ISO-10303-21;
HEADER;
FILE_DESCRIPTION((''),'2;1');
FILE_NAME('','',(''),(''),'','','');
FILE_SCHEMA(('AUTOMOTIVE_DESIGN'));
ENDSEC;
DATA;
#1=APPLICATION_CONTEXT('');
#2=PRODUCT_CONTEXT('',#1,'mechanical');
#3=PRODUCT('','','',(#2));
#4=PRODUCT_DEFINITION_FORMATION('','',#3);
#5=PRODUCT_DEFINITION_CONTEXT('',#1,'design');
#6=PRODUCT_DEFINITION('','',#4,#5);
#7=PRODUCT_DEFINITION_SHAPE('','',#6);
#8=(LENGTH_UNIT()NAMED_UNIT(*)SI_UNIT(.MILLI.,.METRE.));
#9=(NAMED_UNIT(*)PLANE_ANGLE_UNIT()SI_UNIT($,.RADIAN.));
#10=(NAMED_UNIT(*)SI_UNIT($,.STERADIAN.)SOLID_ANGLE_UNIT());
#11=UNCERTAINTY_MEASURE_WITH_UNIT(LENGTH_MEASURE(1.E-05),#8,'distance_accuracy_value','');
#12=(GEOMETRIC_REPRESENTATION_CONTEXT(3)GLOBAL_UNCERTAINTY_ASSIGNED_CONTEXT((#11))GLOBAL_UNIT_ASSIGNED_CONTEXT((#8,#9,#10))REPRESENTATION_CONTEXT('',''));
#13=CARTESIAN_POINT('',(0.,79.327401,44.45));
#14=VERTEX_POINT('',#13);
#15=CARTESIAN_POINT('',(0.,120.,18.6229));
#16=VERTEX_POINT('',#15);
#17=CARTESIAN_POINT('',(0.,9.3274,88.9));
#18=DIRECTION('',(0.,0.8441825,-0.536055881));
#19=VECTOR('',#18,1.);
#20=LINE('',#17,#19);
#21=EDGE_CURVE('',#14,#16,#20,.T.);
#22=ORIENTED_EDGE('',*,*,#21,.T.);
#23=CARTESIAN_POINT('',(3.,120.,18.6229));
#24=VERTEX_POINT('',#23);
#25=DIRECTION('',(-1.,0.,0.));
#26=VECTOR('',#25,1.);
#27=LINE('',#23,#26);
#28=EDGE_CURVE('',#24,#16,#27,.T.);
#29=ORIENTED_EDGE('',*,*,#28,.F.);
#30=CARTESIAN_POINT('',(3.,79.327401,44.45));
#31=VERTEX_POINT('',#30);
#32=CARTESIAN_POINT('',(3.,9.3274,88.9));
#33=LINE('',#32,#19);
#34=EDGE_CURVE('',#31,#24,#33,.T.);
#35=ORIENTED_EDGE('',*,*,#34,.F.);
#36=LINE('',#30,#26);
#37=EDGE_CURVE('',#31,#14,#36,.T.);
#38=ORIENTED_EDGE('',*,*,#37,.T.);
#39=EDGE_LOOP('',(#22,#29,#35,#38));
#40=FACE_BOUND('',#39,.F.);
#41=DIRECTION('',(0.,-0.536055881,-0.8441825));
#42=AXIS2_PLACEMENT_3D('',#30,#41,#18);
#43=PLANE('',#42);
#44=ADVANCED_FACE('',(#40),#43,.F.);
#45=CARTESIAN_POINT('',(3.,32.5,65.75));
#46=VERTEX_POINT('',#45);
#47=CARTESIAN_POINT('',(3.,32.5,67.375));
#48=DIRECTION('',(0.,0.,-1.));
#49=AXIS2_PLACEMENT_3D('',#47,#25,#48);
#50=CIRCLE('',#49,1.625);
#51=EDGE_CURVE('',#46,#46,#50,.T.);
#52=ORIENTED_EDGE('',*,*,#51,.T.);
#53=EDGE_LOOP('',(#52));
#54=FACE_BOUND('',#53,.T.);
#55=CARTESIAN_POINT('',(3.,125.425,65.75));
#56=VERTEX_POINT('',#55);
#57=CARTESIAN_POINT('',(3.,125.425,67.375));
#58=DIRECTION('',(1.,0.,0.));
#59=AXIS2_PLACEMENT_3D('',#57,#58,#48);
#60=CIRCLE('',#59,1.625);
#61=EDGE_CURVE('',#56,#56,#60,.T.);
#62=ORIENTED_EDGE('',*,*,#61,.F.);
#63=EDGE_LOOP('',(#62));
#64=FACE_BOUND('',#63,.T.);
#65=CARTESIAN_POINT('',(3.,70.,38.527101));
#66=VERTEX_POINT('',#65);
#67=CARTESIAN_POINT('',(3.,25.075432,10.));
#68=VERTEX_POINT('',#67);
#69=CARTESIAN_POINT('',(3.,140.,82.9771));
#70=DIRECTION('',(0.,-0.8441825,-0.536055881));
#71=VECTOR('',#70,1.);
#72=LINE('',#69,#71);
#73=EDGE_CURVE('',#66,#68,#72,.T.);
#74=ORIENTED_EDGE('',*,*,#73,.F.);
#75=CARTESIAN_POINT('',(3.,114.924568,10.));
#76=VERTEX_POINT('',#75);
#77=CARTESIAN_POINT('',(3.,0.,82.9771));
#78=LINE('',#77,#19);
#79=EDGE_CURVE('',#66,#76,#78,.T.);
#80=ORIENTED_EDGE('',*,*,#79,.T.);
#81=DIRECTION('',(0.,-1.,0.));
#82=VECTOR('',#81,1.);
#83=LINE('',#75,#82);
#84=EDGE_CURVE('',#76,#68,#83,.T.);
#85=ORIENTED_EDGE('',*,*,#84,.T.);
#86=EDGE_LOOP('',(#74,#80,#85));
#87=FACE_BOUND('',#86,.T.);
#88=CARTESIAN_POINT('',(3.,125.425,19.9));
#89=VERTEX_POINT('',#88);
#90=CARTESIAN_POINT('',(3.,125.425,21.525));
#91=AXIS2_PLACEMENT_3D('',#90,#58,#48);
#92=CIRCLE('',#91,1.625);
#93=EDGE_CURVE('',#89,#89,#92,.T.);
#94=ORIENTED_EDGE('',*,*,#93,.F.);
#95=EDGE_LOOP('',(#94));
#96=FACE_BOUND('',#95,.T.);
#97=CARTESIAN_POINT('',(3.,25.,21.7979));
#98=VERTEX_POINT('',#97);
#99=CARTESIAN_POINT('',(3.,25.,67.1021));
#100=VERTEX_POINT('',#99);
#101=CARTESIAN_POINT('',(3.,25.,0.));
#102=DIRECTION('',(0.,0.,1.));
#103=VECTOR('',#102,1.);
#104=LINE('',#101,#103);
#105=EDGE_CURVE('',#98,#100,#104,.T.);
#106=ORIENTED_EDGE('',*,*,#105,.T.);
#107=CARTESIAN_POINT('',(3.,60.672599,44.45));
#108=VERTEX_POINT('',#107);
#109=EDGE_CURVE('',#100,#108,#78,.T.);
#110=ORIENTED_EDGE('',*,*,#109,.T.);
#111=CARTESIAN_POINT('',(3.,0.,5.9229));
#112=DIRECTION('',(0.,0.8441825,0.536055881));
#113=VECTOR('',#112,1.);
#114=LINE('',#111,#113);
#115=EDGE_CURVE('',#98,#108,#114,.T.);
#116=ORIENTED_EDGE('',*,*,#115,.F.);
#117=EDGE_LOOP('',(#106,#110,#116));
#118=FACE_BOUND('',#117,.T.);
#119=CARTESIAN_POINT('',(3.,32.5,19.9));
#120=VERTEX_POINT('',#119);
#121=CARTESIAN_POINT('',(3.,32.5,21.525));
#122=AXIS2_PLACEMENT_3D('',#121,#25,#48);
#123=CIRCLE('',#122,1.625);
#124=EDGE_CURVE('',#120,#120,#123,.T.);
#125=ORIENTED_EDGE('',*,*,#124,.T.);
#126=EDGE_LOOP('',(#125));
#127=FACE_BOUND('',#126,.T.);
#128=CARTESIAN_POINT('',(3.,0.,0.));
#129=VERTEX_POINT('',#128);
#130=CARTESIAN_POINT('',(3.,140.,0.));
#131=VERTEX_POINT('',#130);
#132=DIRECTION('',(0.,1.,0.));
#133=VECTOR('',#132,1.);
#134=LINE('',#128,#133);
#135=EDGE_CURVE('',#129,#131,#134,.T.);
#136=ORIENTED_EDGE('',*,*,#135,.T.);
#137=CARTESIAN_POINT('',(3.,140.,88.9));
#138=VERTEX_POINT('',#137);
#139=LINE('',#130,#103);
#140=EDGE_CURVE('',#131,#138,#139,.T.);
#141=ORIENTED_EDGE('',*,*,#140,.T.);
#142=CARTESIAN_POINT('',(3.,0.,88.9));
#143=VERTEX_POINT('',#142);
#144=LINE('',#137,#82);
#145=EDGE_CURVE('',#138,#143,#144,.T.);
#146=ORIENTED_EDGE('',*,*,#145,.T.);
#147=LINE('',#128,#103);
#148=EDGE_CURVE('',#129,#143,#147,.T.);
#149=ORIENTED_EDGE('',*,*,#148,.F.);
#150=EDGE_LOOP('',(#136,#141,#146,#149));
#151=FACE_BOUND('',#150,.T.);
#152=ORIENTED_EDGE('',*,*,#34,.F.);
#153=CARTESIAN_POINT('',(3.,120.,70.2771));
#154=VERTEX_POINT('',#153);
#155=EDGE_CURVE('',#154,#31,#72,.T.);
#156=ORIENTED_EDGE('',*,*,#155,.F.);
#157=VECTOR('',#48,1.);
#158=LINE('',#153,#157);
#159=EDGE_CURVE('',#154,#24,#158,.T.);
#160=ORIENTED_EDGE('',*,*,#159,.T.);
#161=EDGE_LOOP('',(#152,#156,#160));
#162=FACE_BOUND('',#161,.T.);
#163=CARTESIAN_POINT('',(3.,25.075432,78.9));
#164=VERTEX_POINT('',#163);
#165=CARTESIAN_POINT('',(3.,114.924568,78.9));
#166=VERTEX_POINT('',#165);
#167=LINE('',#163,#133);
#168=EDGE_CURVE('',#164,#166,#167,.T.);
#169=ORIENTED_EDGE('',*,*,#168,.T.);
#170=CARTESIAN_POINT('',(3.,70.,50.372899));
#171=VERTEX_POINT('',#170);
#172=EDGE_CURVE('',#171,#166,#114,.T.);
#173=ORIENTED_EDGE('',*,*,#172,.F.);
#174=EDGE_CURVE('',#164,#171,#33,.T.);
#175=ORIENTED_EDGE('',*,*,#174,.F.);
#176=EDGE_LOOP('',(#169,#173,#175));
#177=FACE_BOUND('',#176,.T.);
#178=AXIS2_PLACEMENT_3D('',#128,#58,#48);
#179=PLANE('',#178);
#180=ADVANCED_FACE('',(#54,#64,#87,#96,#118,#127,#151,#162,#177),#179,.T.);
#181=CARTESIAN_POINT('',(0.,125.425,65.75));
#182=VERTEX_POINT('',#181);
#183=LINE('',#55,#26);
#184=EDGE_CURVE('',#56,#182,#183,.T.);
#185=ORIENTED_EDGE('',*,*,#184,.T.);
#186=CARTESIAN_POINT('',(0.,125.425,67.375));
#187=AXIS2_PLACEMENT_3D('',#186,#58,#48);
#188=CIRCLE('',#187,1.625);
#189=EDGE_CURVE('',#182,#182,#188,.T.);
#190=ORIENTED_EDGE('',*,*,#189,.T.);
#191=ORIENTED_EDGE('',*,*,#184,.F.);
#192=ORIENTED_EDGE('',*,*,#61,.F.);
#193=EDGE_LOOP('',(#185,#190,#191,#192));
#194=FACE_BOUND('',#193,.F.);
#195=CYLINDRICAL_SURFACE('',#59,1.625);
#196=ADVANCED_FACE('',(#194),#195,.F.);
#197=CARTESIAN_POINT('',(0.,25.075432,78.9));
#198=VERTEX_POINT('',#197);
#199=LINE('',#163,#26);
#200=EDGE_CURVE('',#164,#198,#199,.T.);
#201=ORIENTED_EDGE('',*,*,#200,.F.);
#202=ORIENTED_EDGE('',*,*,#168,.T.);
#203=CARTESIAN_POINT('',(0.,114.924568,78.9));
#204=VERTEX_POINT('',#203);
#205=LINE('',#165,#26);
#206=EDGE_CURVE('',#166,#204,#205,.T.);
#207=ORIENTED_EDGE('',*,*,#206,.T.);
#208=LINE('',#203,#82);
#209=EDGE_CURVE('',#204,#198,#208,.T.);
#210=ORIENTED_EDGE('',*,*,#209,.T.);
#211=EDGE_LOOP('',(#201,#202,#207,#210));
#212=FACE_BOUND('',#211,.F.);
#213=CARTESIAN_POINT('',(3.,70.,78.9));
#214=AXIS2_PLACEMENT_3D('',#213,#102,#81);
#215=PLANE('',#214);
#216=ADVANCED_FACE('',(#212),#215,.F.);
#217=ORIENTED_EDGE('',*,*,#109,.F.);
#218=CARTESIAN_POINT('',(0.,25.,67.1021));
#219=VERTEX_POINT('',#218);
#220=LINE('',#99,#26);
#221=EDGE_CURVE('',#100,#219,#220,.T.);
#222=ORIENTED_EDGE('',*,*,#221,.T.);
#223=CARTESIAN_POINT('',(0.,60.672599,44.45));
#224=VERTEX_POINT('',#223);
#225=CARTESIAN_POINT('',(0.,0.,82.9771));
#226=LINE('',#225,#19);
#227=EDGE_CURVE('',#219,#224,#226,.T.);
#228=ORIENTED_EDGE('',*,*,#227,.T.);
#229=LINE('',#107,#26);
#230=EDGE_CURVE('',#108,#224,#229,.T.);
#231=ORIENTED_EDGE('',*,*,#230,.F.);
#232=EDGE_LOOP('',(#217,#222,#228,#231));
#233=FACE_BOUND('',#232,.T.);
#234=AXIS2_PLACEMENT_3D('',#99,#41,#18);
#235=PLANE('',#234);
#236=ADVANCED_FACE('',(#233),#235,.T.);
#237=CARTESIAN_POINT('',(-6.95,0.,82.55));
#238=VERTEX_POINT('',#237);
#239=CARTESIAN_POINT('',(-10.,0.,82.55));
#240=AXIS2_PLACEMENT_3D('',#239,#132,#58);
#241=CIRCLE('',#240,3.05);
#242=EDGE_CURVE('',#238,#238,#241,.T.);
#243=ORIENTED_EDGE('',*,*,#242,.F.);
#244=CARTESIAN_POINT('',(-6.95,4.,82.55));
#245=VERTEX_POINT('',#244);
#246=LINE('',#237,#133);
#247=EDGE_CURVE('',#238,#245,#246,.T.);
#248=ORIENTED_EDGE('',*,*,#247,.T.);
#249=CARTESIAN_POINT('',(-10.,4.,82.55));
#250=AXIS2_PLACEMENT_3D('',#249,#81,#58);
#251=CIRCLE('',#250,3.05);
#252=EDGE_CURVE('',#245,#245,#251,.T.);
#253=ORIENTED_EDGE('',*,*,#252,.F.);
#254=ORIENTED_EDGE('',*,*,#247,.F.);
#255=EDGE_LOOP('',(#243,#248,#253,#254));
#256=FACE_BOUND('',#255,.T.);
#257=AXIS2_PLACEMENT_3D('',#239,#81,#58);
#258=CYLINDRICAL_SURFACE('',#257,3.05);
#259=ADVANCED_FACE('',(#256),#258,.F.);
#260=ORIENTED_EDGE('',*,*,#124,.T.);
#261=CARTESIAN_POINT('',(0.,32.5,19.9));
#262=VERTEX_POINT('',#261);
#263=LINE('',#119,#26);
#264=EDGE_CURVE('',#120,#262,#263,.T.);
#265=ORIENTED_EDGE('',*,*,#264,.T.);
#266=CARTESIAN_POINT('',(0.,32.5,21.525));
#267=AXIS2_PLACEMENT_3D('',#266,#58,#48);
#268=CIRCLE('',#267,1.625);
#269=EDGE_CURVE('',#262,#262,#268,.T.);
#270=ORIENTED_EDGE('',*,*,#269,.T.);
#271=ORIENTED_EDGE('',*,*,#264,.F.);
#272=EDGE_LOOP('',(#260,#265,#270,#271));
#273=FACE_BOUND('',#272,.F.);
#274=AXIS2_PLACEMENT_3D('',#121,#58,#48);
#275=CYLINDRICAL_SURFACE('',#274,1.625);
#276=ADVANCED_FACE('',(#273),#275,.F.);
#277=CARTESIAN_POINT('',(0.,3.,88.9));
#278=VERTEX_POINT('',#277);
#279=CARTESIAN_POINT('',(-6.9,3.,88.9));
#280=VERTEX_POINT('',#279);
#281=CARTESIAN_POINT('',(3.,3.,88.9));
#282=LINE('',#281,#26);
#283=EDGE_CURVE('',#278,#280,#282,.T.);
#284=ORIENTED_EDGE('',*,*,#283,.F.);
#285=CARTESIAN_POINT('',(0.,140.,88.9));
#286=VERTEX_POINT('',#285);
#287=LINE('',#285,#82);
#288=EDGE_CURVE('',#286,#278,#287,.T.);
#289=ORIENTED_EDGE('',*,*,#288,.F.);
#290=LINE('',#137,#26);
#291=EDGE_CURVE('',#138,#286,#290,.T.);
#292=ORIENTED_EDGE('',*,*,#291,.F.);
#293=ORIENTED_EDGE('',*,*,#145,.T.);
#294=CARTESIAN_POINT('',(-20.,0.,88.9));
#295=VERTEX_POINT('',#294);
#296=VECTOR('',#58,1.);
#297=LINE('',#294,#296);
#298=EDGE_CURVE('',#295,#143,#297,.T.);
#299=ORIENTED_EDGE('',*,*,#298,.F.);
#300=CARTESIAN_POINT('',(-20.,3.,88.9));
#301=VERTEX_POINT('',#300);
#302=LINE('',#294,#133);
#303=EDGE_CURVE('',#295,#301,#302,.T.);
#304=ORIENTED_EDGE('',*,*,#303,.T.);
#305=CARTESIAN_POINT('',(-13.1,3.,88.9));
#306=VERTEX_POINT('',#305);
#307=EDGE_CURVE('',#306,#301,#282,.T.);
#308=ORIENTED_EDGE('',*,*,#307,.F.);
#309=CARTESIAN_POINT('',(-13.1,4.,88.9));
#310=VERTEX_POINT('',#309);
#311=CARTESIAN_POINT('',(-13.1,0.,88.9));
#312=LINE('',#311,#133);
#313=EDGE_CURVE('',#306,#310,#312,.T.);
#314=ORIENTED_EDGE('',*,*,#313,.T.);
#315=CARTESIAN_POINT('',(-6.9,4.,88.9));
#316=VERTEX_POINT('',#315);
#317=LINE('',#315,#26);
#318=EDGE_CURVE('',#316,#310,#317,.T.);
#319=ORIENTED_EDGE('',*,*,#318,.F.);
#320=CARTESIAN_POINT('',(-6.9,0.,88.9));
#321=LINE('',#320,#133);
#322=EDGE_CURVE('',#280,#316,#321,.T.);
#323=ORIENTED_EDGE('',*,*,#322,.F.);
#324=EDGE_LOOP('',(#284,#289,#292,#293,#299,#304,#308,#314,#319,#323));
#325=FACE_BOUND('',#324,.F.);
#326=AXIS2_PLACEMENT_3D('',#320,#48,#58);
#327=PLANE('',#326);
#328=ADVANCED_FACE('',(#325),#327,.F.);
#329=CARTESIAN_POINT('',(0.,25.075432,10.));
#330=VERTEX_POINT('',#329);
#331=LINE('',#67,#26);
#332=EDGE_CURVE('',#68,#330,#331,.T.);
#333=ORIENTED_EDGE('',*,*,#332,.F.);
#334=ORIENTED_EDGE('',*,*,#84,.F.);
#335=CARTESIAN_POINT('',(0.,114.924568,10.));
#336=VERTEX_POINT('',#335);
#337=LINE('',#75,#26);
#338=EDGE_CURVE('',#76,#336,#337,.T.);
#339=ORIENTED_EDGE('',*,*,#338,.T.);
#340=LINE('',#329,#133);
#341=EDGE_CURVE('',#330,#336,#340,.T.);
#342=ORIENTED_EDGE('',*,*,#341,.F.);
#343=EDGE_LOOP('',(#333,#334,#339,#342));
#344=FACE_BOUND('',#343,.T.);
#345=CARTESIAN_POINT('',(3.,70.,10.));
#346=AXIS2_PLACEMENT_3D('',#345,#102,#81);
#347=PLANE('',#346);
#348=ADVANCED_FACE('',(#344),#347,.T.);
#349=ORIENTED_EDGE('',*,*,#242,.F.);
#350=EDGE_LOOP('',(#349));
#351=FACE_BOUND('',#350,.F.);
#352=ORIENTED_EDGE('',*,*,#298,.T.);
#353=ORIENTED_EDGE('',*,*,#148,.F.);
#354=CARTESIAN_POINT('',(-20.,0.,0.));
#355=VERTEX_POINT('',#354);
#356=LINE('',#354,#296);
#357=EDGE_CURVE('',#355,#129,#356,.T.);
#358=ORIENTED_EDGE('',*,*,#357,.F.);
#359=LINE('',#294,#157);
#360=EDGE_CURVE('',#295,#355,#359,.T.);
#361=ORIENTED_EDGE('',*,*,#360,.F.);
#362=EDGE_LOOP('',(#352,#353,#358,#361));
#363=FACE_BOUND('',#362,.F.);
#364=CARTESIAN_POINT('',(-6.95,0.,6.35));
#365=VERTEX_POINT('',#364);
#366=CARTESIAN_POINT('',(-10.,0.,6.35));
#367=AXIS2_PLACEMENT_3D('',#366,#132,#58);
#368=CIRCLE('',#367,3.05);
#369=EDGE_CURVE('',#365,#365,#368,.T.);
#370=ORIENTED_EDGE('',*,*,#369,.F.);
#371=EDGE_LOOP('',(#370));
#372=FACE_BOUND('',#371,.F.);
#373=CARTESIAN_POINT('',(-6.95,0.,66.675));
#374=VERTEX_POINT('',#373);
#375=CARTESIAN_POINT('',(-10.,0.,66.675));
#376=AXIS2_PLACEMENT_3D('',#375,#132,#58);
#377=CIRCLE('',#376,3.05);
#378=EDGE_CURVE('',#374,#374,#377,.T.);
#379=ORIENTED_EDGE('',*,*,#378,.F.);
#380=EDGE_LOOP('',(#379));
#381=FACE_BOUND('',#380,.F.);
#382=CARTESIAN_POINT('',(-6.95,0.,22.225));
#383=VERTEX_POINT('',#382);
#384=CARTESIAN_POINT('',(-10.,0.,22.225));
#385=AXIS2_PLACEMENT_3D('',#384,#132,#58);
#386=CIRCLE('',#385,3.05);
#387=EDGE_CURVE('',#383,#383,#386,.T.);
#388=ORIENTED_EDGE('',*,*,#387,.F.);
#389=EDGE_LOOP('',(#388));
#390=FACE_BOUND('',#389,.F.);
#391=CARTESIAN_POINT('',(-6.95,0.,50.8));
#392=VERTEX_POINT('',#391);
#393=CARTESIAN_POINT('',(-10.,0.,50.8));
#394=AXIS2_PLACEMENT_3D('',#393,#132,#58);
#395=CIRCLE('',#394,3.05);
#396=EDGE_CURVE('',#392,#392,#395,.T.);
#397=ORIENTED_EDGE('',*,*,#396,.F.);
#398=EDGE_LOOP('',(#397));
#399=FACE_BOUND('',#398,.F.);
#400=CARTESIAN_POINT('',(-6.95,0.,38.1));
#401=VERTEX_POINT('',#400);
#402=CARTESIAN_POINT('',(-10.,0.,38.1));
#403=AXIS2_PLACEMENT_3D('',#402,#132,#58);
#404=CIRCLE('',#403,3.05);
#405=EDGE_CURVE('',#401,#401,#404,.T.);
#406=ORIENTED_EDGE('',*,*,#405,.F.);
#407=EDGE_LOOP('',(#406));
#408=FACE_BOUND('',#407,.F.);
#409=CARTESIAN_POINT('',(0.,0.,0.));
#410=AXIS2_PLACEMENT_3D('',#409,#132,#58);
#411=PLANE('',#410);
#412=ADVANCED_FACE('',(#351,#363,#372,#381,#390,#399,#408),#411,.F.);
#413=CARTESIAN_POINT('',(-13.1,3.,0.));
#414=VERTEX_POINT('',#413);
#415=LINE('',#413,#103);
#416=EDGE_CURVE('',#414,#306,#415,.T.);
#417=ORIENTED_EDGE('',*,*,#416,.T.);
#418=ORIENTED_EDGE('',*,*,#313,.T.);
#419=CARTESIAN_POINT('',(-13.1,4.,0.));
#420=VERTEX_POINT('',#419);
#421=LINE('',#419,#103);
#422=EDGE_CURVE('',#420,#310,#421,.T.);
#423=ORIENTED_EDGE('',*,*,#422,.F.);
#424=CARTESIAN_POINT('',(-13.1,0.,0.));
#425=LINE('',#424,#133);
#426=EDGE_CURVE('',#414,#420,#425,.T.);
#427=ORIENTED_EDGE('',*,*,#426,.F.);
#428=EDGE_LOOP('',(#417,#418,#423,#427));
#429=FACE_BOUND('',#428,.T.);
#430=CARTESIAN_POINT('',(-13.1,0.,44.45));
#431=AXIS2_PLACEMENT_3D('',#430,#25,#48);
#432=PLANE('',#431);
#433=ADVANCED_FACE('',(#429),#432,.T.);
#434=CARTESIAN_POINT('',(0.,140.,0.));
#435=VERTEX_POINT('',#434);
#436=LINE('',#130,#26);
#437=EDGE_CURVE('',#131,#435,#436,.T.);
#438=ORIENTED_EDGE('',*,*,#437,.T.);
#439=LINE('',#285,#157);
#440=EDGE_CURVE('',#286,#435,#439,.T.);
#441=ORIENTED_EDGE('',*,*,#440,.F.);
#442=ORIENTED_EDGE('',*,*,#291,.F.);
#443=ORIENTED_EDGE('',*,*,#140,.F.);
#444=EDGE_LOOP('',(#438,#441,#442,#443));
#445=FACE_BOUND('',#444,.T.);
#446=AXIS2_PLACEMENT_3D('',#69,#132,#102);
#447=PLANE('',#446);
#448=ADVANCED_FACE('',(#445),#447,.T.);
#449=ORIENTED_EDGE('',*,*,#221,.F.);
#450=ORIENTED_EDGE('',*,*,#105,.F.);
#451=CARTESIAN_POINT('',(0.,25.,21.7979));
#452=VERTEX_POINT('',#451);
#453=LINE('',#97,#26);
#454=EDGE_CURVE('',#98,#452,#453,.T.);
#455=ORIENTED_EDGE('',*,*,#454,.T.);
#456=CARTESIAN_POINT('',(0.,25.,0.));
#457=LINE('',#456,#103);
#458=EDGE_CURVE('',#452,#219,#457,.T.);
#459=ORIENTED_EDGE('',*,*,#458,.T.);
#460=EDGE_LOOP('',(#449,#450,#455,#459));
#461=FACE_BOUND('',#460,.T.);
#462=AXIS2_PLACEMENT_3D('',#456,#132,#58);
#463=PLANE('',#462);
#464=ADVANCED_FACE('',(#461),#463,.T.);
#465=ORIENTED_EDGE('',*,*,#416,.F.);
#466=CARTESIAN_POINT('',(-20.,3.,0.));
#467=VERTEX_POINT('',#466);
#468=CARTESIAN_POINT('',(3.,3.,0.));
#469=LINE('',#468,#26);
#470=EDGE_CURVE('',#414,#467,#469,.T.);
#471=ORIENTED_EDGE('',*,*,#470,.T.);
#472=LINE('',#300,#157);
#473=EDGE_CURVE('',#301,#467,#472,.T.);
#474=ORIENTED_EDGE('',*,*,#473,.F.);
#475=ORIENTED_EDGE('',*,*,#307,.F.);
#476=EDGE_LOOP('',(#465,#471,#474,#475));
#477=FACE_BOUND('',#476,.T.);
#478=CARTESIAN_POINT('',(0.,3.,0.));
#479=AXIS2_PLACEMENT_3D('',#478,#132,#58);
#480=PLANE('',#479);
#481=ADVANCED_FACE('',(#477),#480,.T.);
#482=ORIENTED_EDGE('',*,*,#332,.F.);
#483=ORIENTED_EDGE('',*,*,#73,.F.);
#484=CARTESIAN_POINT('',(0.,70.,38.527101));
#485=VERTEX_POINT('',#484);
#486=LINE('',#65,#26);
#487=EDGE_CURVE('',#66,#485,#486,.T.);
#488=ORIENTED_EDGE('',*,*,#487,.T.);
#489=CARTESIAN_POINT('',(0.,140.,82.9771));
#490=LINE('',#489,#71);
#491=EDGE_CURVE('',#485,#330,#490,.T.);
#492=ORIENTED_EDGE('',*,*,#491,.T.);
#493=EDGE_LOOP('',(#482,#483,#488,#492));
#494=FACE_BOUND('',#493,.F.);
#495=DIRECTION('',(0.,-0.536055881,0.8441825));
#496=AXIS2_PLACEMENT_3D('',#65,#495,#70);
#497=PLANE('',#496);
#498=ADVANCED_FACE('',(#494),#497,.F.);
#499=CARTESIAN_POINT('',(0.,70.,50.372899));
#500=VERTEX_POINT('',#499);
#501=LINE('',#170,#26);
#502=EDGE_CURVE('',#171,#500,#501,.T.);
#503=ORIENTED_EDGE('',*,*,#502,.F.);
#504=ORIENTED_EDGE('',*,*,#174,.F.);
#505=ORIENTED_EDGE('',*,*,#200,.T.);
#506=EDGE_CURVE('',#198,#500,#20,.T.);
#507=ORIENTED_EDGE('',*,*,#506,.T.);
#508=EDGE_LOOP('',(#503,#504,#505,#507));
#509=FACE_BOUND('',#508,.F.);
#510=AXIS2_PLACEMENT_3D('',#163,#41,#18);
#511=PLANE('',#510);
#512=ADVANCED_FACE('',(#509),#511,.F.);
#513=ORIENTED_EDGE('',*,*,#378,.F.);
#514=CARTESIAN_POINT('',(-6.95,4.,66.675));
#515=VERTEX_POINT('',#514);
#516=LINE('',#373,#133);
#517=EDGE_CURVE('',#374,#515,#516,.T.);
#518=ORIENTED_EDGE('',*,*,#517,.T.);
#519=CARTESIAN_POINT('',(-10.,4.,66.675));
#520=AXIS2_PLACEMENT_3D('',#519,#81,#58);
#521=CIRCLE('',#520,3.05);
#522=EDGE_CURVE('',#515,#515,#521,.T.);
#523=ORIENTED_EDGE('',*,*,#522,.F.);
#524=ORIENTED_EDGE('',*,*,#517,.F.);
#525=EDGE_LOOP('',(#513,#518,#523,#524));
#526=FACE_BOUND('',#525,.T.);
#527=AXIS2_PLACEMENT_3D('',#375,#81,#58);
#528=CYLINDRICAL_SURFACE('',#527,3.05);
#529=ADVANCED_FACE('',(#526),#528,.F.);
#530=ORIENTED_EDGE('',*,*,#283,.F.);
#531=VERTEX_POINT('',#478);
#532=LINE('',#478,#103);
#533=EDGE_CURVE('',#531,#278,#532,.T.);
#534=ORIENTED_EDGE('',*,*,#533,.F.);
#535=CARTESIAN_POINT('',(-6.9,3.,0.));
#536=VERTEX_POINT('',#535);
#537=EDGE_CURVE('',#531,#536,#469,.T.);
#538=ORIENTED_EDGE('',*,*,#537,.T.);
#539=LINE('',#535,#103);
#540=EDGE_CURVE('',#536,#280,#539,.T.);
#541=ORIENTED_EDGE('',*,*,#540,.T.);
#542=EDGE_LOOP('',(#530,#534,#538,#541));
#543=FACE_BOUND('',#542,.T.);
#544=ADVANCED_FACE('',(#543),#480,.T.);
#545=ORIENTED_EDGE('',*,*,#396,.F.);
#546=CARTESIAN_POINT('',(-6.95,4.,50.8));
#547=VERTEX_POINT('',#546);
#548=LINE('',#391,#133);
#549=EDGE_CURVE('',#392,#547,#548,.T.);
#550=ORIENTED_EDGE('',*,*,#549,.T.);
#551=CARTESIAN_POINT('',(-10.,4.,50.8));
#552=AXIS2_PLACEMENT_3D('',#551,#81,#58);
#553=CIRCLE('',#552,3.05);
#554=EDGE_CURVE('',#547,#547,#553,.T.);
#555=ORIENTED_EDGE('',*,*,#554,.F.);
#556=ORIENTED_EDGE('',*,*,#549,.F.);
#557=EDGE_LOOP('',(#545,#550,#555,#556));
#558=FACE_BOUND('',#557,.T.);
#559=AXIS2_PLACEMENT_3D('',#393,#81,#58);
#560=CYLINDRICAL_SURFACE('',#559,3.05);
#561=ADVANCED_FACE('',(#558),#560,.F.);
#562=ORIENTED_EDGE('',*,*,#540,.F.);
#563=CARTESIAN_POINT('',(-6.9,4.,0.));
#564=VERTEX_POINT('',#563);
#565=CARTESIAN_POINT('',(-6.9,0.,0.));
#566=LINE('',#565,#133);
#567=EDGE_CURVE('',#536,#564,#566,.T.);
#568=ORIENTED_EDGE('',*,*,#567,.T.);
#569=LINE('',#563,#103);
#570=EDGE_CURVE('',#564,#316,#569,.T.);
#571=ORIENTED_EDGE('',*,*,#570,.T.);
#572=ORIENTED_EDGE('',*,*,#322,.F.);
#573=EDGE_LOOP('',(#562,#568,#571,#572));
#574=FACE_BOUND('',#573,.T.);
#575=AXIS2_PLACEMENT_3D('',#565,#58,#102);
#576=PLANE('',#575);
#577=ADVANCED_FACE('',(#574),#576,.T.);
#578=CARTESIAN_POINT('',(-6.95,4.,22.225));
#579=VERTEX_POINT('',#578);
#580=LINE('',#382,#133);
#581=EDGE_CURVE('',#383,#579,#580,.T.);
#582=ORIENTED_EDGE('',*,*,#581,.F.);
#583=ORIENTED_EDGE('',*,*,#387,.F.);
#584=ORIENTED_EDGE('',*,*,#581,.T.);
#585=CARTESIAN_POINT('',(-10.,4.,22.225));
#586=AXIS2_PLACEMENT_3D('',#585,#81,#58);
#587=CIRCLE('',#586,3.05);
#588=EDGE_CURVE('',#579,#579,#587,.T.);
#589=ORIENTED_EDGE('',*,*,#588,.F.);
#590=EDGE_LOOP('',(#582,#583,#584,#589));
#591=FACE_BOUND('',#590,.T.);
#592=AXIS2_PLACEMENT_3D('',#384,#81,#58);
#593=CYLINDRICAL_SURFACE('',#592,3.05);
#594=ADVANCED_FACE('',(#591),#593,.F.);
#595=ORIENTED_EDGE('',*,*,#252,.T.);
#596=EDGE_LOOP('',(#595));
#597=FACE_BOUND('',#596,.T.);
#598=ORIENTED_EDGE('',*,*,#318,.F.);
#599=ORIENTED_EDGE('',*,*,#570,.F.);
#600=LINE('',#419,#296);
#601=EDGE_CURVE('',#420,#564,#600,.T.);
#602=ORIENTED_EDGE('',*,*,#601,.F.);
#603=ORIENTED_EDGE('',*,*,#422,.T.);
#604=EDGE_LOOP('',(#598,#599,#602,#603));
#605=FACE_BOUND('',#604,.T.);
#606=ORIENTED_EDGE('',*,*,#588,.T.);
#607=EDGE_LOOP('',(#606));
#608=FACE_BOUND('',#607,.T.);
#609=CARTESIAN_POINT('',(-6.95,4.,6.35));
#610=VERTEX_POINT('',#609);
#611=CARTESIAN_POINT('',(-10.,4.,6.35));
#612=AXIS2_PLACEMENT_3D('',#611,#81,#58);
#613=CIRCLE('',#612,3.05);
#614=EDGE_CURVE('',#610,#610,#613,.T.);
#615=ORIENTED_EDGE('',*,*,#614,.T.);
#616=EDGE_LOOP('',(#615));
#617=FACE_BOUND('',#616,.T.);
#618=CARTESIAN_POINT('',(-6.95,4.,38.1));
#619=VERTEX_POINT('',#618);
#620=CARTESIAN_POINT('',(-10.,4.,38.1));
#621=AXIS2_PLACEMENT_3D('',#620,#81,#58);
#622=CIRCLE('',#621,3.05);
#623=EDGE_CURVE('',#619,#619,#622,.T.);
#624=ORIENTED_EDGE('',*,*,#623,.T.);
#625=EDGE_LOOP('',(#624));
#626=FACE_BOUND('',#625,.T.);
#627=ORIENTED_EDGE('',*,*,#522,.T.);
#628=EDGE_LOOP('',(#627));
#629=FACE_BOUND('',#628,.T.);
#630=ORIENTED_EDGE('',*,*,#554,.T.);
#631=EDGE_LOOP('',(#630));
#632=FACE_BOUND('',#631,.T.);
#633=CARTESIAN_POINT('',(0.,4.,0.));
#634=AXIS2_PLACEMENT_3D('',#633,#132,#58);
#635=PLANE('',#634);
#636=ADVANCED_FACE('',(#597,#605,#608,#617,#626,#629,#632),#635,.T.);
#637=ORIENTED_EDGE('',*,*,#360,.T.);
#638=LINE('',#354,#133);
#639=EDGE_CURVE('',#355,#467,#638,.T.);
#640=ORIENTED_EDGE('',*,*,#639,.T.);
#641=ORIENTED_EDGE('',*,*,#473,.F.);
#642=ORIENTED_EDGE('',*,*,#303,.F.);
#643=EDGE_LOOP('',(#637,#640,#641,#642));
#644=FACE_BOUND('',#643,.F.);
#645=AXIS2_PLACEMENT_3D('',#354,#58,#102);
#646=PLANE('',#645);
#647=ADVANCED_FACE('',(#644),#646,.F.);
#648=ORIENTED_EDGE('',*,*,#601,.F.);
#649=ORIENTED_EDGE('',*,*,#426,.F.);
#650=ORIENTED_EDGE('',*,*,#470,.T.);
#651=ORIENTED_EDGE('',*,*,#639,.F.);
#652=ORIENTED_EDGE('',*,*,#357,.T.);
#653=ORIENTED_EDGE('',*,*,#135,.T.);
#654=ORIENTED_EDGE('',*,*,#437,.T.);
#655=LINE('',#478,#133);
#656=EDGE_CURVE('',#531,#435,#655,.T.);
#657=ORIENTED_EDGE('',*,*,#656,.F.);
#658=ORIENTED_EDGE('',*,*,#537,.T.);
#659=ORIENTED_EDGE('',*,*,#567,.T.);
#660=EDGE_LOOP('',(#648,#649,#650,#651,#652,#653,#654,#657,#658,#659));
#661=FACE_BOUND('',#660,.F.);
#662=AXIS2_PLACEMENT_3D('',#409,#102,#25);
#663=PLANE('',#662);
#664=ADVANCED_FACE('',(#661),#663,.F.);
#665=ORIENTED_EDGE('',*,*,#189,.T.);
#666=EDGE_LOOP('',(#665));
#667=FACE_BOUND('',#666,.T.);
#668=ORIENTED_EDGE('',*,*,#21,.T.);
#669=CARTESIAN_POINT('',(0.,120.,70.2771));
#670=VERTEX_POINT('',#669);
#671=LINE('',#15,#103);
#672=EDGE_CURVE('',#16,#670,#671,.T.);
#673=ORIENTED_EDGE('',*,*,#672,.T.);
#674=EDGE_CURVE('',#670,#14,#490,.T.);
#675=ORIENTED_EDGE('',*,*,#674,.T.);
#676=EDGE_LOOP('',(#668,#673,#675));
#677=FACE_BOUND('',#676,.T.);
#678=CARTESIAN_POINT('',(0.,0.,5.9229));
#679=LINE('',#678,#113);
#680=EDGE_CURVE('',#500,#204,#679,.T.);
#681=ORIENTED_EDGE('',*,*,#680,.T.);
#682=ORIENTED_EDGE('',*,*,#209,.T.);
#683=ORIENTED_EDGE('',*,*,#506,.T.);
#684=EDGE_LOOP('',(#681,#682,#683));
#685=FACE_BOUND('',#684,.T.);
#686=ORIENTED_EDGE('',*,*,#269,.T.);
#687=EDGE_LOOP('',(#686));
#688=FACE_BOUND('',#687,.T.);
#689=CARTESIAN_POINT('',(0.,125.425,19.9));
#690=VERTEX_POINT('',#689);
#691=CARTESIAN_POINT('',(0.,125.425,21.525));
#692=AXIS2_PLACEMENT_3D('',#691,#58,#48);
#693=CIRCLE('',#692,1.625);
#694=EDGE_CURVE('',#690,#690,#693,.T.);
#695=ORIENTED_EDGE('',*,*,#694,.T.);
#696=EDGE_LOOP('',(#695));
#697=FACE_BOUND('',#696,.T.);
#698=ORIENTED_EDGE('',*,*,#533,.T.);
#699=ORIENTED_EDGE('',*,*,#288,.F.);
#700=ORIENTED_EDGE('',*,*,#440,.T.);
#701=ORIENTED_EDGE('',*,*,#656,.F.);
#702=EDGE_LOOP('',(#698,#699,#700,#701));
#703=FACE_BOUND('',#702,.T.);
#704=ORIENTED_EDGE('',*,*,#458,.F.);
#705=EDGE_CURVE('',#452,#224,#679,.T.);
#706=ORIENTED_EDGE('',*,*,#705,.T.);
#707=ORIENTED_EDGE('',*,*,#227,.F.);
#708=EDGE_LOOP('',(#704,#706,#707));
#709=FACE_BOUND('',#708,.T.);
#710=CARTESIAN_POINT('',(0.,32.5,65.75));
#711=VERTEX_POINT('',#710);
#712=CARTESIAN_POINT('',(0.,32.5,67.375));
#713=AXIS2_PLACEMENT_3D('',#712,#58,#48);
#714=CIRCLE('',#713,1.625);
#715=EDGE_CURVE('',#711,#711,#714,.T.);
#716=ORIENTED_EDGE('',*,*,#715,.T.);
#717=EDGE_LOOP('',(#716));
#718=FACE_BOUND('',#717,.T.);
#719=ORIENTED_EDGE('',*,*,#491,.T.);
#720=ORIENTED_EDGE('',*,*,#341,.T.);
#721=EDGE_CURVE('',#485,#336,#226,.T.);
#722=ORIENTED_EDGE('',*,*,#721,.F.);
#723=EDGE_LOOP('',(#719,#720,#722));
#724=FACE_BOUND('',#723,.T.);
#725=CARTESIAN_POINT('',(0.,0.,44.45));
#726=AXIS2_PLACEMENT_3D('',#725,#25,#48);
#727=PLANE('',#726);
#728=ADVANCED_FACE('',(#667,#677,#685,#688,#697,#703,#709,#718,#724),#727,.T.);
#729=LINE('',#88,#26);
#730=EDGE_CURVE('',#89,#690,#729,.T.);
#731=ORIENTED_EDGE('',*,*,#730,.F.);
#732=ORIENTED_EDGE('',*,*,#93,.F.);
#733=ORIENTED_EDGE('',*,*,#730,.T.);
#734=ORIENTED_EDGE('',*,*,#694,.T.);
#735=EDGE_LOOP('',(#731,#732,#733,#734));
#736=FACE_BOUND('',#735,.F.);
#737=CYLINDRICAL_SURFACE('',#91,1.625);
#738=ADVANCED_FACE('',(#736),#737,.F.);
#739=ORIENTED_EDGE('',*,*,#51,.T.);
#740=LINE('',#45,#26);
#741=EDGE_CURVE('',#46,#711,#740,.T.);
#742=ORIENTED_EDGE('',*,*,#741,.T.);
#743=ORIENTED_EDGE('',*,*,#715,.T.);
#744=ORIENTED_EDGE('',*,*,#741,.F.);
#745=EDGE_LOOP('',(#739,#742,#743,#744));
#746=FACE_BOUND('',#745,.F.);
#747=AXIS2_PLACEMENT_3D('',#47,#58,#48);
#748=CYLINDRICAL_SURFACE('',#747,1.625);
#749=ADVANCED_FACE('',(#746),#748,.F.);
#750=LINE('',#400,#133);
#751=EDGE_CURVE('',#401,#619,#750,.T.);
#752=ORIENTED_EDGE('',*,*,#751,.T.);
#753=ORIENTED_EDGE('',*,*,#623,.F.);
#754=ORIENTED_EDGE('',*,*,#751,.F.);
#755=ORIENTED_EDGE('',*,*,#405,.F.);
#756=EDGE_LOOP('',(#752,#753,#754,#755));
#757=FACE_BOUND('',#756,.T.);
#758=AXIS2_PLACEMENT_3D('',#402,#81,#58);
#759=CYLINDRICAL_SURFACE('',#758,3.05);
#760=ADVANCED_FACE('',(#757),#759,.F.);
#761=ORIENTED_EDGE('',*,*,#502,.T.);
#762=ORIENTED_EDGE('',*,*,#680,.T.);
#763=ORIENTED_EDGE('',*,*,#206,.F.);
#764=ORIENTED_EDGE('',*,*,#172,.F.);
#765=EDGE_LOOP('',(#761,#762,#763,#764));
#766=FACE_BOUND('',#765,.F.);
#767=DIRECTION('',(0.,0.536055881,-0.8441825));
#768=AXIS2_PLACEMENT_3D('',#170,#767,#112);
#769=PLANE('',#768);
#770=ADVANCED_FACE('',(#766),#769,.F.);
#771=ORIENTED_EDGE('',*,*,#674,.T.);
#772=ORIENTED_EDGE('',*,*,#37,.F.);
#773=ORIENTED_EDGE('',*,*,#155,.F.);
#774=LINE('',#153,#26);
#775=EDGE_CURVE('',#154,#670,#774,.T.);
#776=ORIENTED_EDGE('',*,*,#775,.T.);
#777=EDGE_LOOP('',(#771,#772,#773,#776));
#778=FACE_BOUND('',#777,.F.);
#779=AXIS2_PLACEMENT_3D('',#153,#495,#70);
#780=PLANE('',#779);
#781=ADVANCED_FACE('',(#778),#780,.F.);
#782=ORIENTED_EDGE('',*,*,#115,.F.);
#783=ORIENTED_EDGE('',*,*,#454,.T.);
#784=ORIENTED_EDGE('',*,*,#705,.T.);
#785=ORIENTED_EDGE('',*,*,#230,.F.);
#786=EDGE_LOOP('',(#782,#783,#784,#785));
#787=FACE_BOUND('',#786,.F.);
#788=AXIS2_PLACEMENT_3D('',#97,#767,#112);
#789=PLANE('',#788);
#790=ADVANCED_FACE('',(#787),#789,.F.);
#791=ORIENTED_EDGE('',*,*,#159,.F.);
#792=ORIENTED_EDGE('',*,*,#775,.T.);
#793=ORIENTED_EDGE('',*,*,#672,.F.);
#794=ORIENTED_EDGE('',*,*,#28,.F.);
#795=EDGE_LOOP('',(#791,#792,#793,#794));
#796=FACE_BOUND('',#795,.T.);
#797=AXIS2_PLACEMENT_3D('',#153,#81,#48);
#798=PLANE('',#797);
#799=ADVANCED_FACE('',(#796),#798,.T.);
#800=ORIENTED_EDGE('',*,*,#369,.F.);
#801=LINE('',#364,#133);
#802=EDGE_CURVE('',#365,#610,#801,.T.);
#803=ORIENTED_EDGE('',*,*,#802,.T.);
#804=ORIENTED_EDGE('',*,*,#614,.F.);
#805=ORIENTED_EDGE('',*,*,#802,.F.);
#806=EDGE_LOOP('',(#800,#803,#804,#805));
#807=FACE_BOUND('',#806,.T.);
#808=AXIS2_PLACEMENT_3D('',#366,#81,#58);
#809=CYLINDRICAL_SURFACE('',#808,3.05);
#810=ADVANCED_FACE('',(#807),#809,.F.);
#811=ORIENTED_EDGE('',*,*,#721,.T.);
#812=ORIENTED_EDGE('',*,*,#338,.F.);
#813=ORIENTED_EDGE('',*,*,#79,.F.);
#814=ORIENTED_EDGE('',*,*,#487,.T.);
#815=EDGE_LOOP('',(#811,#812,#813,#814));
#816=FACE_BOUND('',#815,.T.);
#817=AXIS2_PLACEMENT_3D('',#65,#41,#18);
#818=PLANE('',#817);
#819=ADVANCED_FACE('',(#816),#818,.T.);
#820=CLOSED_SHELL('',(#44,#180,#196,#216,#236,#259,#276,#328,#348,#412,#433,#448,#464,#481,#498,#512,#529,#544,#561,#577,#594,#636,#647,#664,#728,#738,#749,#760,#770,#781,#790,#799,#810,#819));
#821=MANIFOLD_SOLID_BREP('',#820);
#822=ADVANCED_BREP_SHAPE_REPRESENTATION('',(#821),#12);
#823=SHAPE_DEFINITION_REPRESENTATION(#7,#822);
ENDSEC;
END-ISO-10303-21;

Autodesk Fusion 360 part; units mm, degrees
sketch "PrimarySSD" plane through (0, 0, 0) normal (0, 1, 0) x (1, 0, 0)
  line L0 (0, 0) -> (7, 0)
  circle A0 centre (4, -14) radius 1.55
  circle A1 centre (4, -90.6) radius 1.55
  line L1 (0, 0) -> (-2.5, 0)
  line L2 (-2.5, 0) -> (-2.5, -100.45)
  line L3 (0, -100.45) -> (0, 0)
  line L4 (7, 0) -> (9.5, 0)
  line L5 (9.5, 0) -> (9.5, -100.45)
  line L6 (7, -100.45) -> (7, 0)
  line L7 (-2.5, -100.45) -> (9.5, -100.45)
  line L8 (-2.5, -100.45) -> (9.5, -100.45)
  line L9 (9.5, -100.45) -> (9.5, -102.95)
  line L10 (9.5, -102.95) -> (-2.5, -102.95)
  line L11 (-2.5, -102.95) -> (-2.5, -100.45)
  dimension "d1" = 7
  dimension "d3" = 3.1
  dimension "d5" = 14
  dimension "d6" = 3.1
  dimension "d8" = 90.6
  dimension "d10" = 100.45
  dimension "d12" = 100.45
  dimension "d17" = 2.5
  dimension "d18" = 2.5
  dimension "d19" = 12
  dimension "d20" = 3
  dimension "d21" = 3
  dimension "d44" = 9.85
  dimension "d92" = 12
  dimension "d93" = 2.5
extrude "Extrude1" add sketch "PrimarySSD" along normal blind 10 contours L1 L2 L3 L7 L8 | L4 L5 L6 L7 L8 makes body 1 at (0, 3.3333, 66.9667) makes body 2 at (9.5, 3.3333, 33.4833)
extrude "Extrude6" add sketch "PrimarySSD" along normal blind 3 contours L0 L3 L6 L7 L8 bodies 1 2
ref_plane "WorkPlane2" through (3.5, 72.85, 50.225) normal (0, 1, 0) x (1, 0, 0)
sketch "TopSSD" plane through (0, 72.85, 0) normal (0, 1, 0) x (1, 0, 0)
  line L0 (-2.5, 0) -> (-2.5, -100.45)
  line L1 (0, -100.45) -> (0, 0)
  line L2 (7, -100.45) -> (7, 0)
  line L3 (9.5, 0) -> (9.5, -100.45)
  line L4 (-2.5, -100.45) -> (9.5, -100.45)
  line L5 (0, 0) -> (7, 0)
  line L6 (7, 0) -> (9.5, 0)
  line L7 (0, 0) -> (-2.5, 0)
  circle A0 centre (4, -14) radius 1.55
  circle A1 centre (4, -90.6) radius 1.55
  line L8 (9.5, -102.95) -> (-2.5, -102.95)
  line L9 (9.5, -100.45) -> (9.5, -102.95)
  line L10 (-2.5, -102.95) -> (-2.5, -100.45)
  point P0 (4, -14)
  point P1 (4, -90.6)
  point P2 (9.5, 0)
  point P3 (-2.5, 0)
  point P4 (9.5, -100.45)
extrude "Extrude12" add sketch "PrimarySSD" along normal blind 10 contours L7 L8 L9 L10 L11 bodies 1
pattern_linear "R-Pattern1" count 18 spacing 12 along (1, 0, 0) of bodies 1 makes body 3 at (15.6281, 0, 4.1514) makes body 4 at (27.6281, 0, 4.1514) makes body 5 at (39.6281, 0, 4.1514) makes body 6 at (51.6281, 0, 4.1514) makes body 7 at (63.6281, 0, 4.1514) makes body 8 at (75.6281, 0, 4.1514) makes body 9 at (87.6281, 0, 4.1514) makes body 10 at (99.6281, 0, 4.1514) makes body 11 at (111.6281, 0, 4.1514) makes body 12 at (123.6281, 0, 4.1514) makes body 13 at (135.6281, 0, 4.1514) makes body 14 at (147.6281, 0, 4.1514) makes body 15 at (159.6281, 0, 4.1514) makes body 16 at (171.6281, 0, 4.1514) makes body 17 at (183.6281, 0, 4.1514) makes body 18 at (195.6281, 0, 4.1514) makes body 19 at (207.6281, 0, 4.1514)
combine "Combine6" operation add target body 1 tool bodies 3 13 17 16 18 19 10 11 14 5 6 15 9 8 7 4 12
ref_plane "WorkPlane5" through (-2.5, 5, 51.475) normal (-1, 0, 0) x (0, 0, 1)
sketch "Left Mount" plane through (-2.5, 0, 0) normal (-1, 0, 0) x (0, 0, 1)
  line L0 (0, 0) -> (102.95, 0)
  line L1 (102.95, 0) -> (102.95, 10)
  line L2 (102.95, 10) -> (0, 10)
  line L3 (0, 10) -> (0, 0)
  line L4 (0, 10) -> (10, 10)
  line L5 (10, 10) -> (10, 20)
  line L6 (10, 20) -> (0, 20)
  line L7 (0, 20) -> (0, 10)
  line L8 (51.475, 0) -> (51.475, 10)
  line L9 (102.95, 20) -> (102.95, 10)
  line L10 (92.95, 20) -> (102.95, 20)
  line L11 (102.95, 10) -> (92.95, 10)
  line L12 (92.95, 10) -> (92.95, 20)
  circle A0 centre (5, 15) radius 1.625
  circle A1 centre (97.95, 15) radius 1.625
  line L13 (7.75, 16.5877) -> (5, 18.1754)
  line L14 (5, 18.1754) -> (2.25, 16.5877)
  line L15 (2.25, 16.5877) -> (2.25, 13.4123)
  line L16 (2.25, 13.4123) -> (5, 11.8246)
  line L17 (5, 11.8246) -> (7.75, 13.4123)
  line L18 (7.75, 13.4123) -> (7.75, 16.5877)
  line L19 (95.2, 16.5877) -> (97.95, 18.1754)
  line L20 (97.95, 18.1754) -> (100.7, 16.5877)
  line L21 (100.7, 16.5877) -> (100.7, 13.4123)
  line L22 (100.7, 13.4123) -> (97.95, 11.8246)
  line L23 (97.95, 11.8246) -> (95.2, 13.4123)
  line L24 (95.2, 13.4123) -> (95.2, 16.5877)
  point P0 (5, 15)
  dimension "d103" = 10
  dimension "d104" = 10
  dimension "d105" = 3.25
  dimension "d106" = 5
  dimension "d107" = 5
  dimension "d108" = 2.75
extrude "Extrude15" add sketch "Left Mount" against normal blind 2.5 contours L2 L4 L5 L6 L7 bodies 1
extrude "Extrude16" add sketch "Left Mount" against normal blind 2.5 contours L2 L9 L10 L11 L12 bodies 1
extrude "Extrude17" add sketch "Left Mount" along normal blind 2.5 contours L2 L9 L10 L11 L12 | L19 L20 L21 L22 L23 L24 bodies 1
extrude "Extrude18" add sketch "Left Mount" along normal blind 2.5 contours L2 L4 L5 L6 L7 | L13 L14 L15 L16 L17 L18 bodies 1
ref_plane "WorkPlane6" through (213.5, 5, 51.475) normal (1, 0, 0) x (0, 0, -1)
sketch "Right Mount" plane through (213.5, 0, 0) normal (1, 0, 0) x (0, 0, -1)
  line L0 (-102.95, 0) -> (-102.95, 10)
  line L1 (0, 0) -> (-102.95, 0)
  line L2 (-102.95, 10) -> (0, 10)
  line L3 (0, 10) -> (0, 0)
  line L4 (0, 20) -> (0, 10)
  line L5 (-2.25, 16.5877) -> (-2.25, 13.4123)
  line L6 (-2.25, 13.4123) -> (-5, 11.8246)
  line L7 (-5, 11.8246) -> (-7.75, 13.4123)
  line L8 (-7.75, 13.4123) -> (-7.75, 16.5877)
  line L9 (-7.75, 16.5877) -> (-5, 18.1754)
  line L10 (-5, 18.1754) -> (-2.25, 16.5877)
  circle A0 centre (-5, 15) radius 1.625
  line L11 (-10, 20) -> (0, 20)
  line L12 (-10, 10) -> (-10, 20)
  line L13 (-92.95, 10) -> (-92.95, 20)
  line L14 (-92.95, 20) -> (-102.95, 20)
  line L15 (-102.95, 20) -> (-102.95, 10)
  line L16 (-100.7, 16.5877) -> (-100.7, 13.4123)
  line L17 (-100.7, 13.4123) -> (-97.95, 11.8246)
  line L18 (-97.95, 11.8246) -> (-95.2, 13.4123)
  line L19 (-95.2, 13.4123) -> (-95.2, 16.5877)
  line L20 (-95.2, 16.5877) -> (-97.95, 18.1754)
  line L21 (-97.95, 18.1754) -> (-100.7, 16.5877)
  circle A1 centre (-97.95, 15) radius 1.625
  point P0 (-5, 15)
  point P1 (-97.95, 15)
extrude "Extrude19" add sketch "Right Mount" against normal blind 2.5 contours L2 L13 L14 L15 bodies 1
extrude "Extrude20" add sketch "Right Mount" along normal blind 2.5 contours L2 L13 L14 L15 | L16 L17 L18 L19 L20 L21 bodies 1
extrude "Extrude21" add sketch "Right Mount" against normal blind 2.5 contours L2 L4 L11 L12 bodies 1
extrude "Extrude22" add sketch "Right Mount" along normal blind 2.5 contours L2 L4 L11 L12 | L5 L6 L7 L8 L9 L10 bodies 1
sketch "Sketch13" plane through (0, 10, 0) normal (0, 1, 0) x (-1, 0, 0)
  line L0 (-211, 102.95) -> (-211, 100.45)
  line L1 (-211, 100.45) -> (-204, 100.45)
  line L2 (-204, 100.45) -> (-204, 0)
  line L3 (-204, 0) -> (-199, 0)
  line L4 (-199, 0) -> (-199, 100.45)
  line L5 (-199, 100.45) -> (-192, 100.45)
  line L6 (-192, 100.45) -> (-192, 0)
  line L7 (-192, 0) -> (-187, 0)
  line L8 (-187, 0) -> (-187, 100.45)
  line L9 (-187, 100.45) -> (-180, 100.45)
  line L10 (-180, 100.45) -> (-180, 0)
  line L11 (-180, 0) -> (-175, 0)
  line L12 (-175, 0) -> (-175, 100.45)
  line L13 (-175, 100.45) -> (-168, 100.45)
  line L14 (-168, 100.45) -> (-168, 0)
  line L15 (-168, 0) -> (-163, 0)
  line L16 (-163, 0) -> (-163, 100.45)
  line L17 (-163, 100.45) -> (-156, 100.45)
  line L18 (-156, 100.45) -> (-156, 0)
  line L19 (-156, 0) -> (-151, 0)
  line L20 (-151, 0) -> (-151, 100.45)
  line L21 (-151, 100.45) -> (-144, 100.45)
  line L22 (-144, 100.45) -> (-144, 0)
  line L23 (-144, 0) -> (-139, 0)
  line L24 (-139, 0) -> (-139, 100.45)
  line L25 (-139, 100.45) -> (-132, 100.45)
  line L26 (-132, 100.45) -> (-132, 0)
  line L27 (-132, 0) -> (-127, 0)
  line L28 (-127, 0) -> (-127, 100.45)
  line L29 (-127, 100.45) -> (-120, 100.45)
  line L30 (-120, 100.45) -> (-120, 0)
  line L31 (-120, 0) -> (-115, 0)
  line L32 (-115, 0) -> (-115, 100.45)
  line L33 (-115, 100.45) -> (-108, 100.45)
  line L34 (-108, 100.45) -> (-108, 0)
  line L35 (-108, 0) -> (-103, 0)
  line L36 (-103, 0) -> (-103, 100.45)
  line L37 (-103, 100.45) -> (-96, 100.45)
  line L38 (-96, 100.45) -> (-96, 0)
  line L39 (-96, 0) -> (-91, 0)
  line L40 (-91, 0) -> (-91, 100.45)
  line L41 (-91, 100.45) -> (-84, 100.45)
  line L42 (-84, 100.45) -> (-84, 0)
  line L43 (-84, 0) -> (-79, 0)
  line L44 (-79, 0) -> (-79, 100.45)
  line L45 (-79, 100.45) -> (-72, 100.45)
  line L46 (-72, 100.45) -> (-72, 0)
  line L47 (-72, 0) -> (-67, 0)
  line L48 (-67, 0) -> (-67, 100.45)
  line L49 (-67, 100.45) -> (-60, 100.45)
  line L50 (-60, 100.45) -> (-60, 0)
  line L51 (-60, 0) -> (-55, 0)
  line L52 (-55, 0) -> (-55, 100.45)
  line L53 (-55, 100.45) -> (-48, 100.45)
  line L54 (-48, 100.45) -> (-48, 0)
  line L55 (-48, 0) -> (-43, 0)
  line L56 (-43, 0) -> (-43, 100.45)
  line L57 (-43, 100.45) -> (-36, 100.45)
  line L58 (-36, 100.45) -> (-36, 0)
  line L59 (-36, 0) -> (-31, 0)
  line L60 (-31, 0) -> (-31, 100.45)
  line L61 (-31, 100.45) -> (-24, 100.45)
  line L62 (-24, 100.45) -> (-24, 0)
  line L63 (-24, 0) -> (-19, 0)
  line L64 (-19, 0) -> (-19, 100.45)
  line L65 (-19, 100.45) -> (-12, 100.45)
  line L66 (-12, 100.45) -> (-12, 0)
  line L67 (-12, 0) -> (-7, 0)
  line L68 (-7, 0) -> (-7, 100.45)
  line L69 (-7, 100.45) -> (0, 100.45)
  line L70 (0, 100.45) -> (0, 102.95)
  line L71 (0, 102.95) -> (-211, 102.95)
  line L72 (2.5, 102.95) -> (-15.75, 102.95)
  line L73 (-7, 100.45) -> (0, 100.45)
  line L74 (-19, 100.45) -> (-12, 100.45)
  line L75 (-211, 102.95) -> (0, 102.95)
  line L76 (-31, 100.45) -> (-24, 100.45)
  line L77 (-43, 100.45) -> (-36, 100.45)
  line L78 (0, 102.95) -> (-211, 102.95)
  line L79 (-211, 102.95) -> (-211, 100.45)
  line L80 (-211, 100.45) -> (0, 100.45)
  line L81 (0, 100.45) -> (0, 102.95)
  line L82 (-211, 102.95) -> (-211, 100.45)
  line L83 (-211, 100.45) -> (-204, 100.45)
  line L84 (-204, 100.45) -> (-204, 0)
  line L85 (-204, 0) -> (-199, 0)
  line L86 (-199, 0) -> (-199, 100.45)
  line L87 (-199, 100.45) -> (-192, 100.45)
  line L88 (-192, 100.45) -> (-192, 0)
  line L89 (-192, 0) -> (-187, 0)
  line L90 (-187, 0) -> (-187, 100.45)
  line L91 (-187, 100.45) -> (-180, 100.45)
  line L92 (-180, 100.45) -> (-180, 0)
  line L93 (-180, 0) -> (-175, 0)
  line L94 (-175, 0) -> (-175, 100.45)
  line L95 (-175, 100.45) -> (-168, 100.45)
  line L96 (-168, 100.45) -> (-168, 0)
  line L97 (-168, 0) -> (-163, 0)
  line L98 (-163, 0) -> (-163, 100.45)
  line L99 (-163, 100.45) -> (-156, 100.45)
  line L100 (-156, 100.45) -> (-156, 0)
  line L101 (-156, 0) -> (-151, 0)
  line L102 (-151, 0) -> (-151, 100.45)
  line L103 (-151, 100.45) -> (-144, 100.45)
  line L104 (-144, 100.45) -> (-144, 0)
  line L105 (-144, 0) -> (-139, 0)
  line L106 (-139, 0) -> (-139, 100.45)
  line L107 (-139, 100.45) -> (-132, 100.45)
  line L108 (-132, 100.45) -> (-132, 0)
  line L109 (-132, 0) -> (-127, 0)
  line L110 (-127, 0) -> (-127, 100.45)
  line L111 (-127, 100.45) -> (-120, 100.45)
  line L112 (-120, 100.45) -> (-120, 0)
  line L113 (-120, 0) -> (-115, 0)
  line L114 (-115, 0) -> (-115, 100.45)
  line L115 (-115, 100.45) -> (-108, 100.45)
  line L116 (-108, 100.45) -> (-108, 0)
  line L117 (-108, 0) -> (-103, 0)
  line L118 (-103, 0) -> (-103, 100.45)
  line L119 (-103, 100.45) -> (-96, 100.45)
  line L120 (-96, 100.45) -> (-96, 0)
  line L121 (-96, 0) -> (-91, 0)
  line L122 (-91, 0) -> (-91, 100.45)
  line L123 (-91, 100.45) -> (-84, 100.45)
  line L124 (-84, 100.45) -> (-84, 0)
  line L125 (-84, 0) -> (-79, 0)
  line L126 (-79, 0) -> (-79, 100.45)
  line L127 (-79, 100.45) -> (-72, 100.45)
  line L128 (-72, 100.45) -> (-72, 0)
  line L129 (-72, 0) -> (-67, 0)
  line L130 (-67, 0) -> (-67, 100.45)
  line L131 (-67, 100.45) -> (-60, 100.45)
  line L132 (-60, 100.45) -> (-60, 0)
  line L133 (-60, 0) -> (-55, 0)
  line L134 (-55, 0) -> (-55, 100.45)
  line L135 (-55, 100.45) -> (-48, 100.45)
  line L136 (-48, 100.45) -> (-48, 0)
  line L137 (-48, 0) -> (-43, 0)
  line L138 (-43, 0) -> (-43, 100.45)
  line L139 (-43, 100.45) -> (-36, 100.45)
  line L140 (-36, 100.45) -> (-36, 0)
  line L141 (-36, 0) -> (-31, 0)
  line L142 (-31, 0) -> (-31, 100.45)
  line L143 (-31, 100.45) -> (-24, 100.45)
  line L144 (-24, 100.45) -> (-24, 0)
  line L145 (-24, 0) -> (-19, 0)
  line L146 (-19, 0) -> (-19, 100.45)
  line L147 (-19, 100.45) -> (-12, 100.45)
  line L148 (-12, 100.45) -> (-12, 0)
  line L149 (-12, 0) -> (-7, 0)
  line L150 (-7, 0) -> (-7, 100.45)
  line L151 (-7, 100.45) -> (0, 100.45)
  line L152 (0, 100.45) -> (0, 102.95)
  line L153 (0, 102.95) -> (-211, 102.95)
  dimension "d187" = 211
  dimension "d188" = 2.5
extrude "Extrude35" cut sketch "Sketch13" against normal blind 6.5 contours L0 L1 L5 L9 L13 L17 L21 L25 L29 L33 L37 L41 L45 L49 L53 L57 L61 L65 L69 L70 L71 L72 L73 L74 L75 L76 L77 L78 L79 L80 L81 L82 L83 L87 L91 L95 L99 L103 L107 L111 L115 L119 L123 L127 L131 L135 L139 L143 L147 L151 L152 L153 bodies 1
sketch "Sketch14" plane through (0, 0, 0) normal (0, 1, 0) x (1, 0, 0)
  line L0 (-2.5, 0) -> (213.5, 0)
  line L1 (-2.5, 0) -> (213.5, 0)
  line L2 (213.5, 0) -> (213.5, 1.6)
  line L3 (213.5, 1.6) -> (-2.5, 1.6)
  line L4 (-2.5, 1.6) -> (-2.5, 0)
  line L5 (-2.5, 0) -> (213.5, 0)
  line L6 (213.5, 0) -> (213.5, 2.5)
  line L7 (213.5, 2.5) -> (-2.5, 2.5)
  line L8 (-2.5, 2.5) -> (-2.5, 0)
  dimension "d191" = 216
  dimension "d192" = 1.6
  dimension "d193" = 2.5
extrude "Extrude36" add sketch "Sketch14" along normal blind 3 bodies 1
extrude "Extrude37" add sketch "Sketch14" along normal blind 5 contours L3 L6 L7 L8 bodies 1

Autodesk Fusion 360 part; units mm, degrees
sketch "Sketch1" plane through (0, 0, 0) normal (0, 1, 0) x (1, 0, 0)
  line L0 (0, 0) -> (-20, 0)
  line L1 (-20, 0) -> (-20, -44.45)
  line L2 (-20, -44.45) -> (0, -44.45)
  line L3 (0, -44.45) -> (0, 0)
  line L4 (-10, 0) -> (-10, -44.45)
  circle A0 centre (-10, -6.35) radius 3.05
  circle A1 centre (-10, -22.225) radius 3.05
  circle A2 centre (-10, -38.1) radius 3.05
  line L5 (-6.9, -44.45) -> (-13.1, -44.45)
  line L6 (-13.1, -44.45) -> (-13.1, 0)
  line L7 (-13.1, 0) -> (-6.9, 0)
  line L8 (-6.9, 0) -> (-6.9, -44.45)
  line L9 (-6.9, -44.45) -> (-13.1, 0) construction
  line L10 (-13.1, -44.45) -> (-6.9, 0) construction
  line L11 (0, 0) -> (3, 0)
  line L12 (3, 0) -> (3, -44.45)
  line L13 (3, -44.45) -> (0, -44.45)
  line L14 (0, -44.45) -> (0, 0)
  point P0 (-10, -22.225)
  dimension "d1" = 20
  dimension "d2" = 44.45
  dimension "d3" = 6.1
  dimension "d4" = 6.35
  dimension "d5" = 6.1
  dimension "d6" = 15.875
  dimension "d7" = 6.1
  dimension "d8" = 15.875
  dimension "d9" = 6.35
  dimension "d10" = 6.2
  dimension "d11" = 44.45
  dimension "d12" = 3
  dimension "d13" = 44.45
extrude "Extrude1" add sketch "Sketch1" along normal blind 3 contours L0 L2 L3 L8 L14 | L3 L11 L12 L13 L14 | L0 L2 L4 A0 A1 A2 L5 L7 L8 | L0 L2 L4 A0 A1 A2 L5 L6 L7 | L0 L1 L2 L6 makes body 1
extrude "Extrude2" add sketch "Sketch1" along normal blind 25 contours L3 L11 L12 L13 L14 bodies 1
extrude "Extrude3" add sketch "Sketch1" along normal blind 4 separate body contours L0 L2 L4 A0 A1 A2 L5 L7 L8 | L0 L2 L4 A0 A1 A2 L5 L6 L7 makes body 2
combine "Combine1" operation add target body 1 tool bodies 2
pattern_linear "R-Pattern1" count 1 spacing 0 along (1, 0, 0) count 2 spacing 44.45 along (0, 0, 1) of bodies 1 makes body 3
combine "Combine2" operation add target body 1 tool bodies 3
sketch "Sketch2" plane through (3, 0, 0) normal (1, 0, 0) x (0, 0, -1)
  line L0 (-88.9, 0) -> (0, 0)
  line L1 (0, 0) -> (0, 25)
  line L2 (0, 25) -> (-88.9, 25)
  line L3 (-88.9, 25) -> (-88.9, 0)
  line L4 (-88.9, 0) -> (0, 0)
  line L5 (0, 0) -> (0, 140)
  line L6 (0, 140) -> (-88.9, 140)
  line L7 (-88.9, 140) -> (-88.9, 0)
  line L8 (-44.45, 140) -> (-44.45, 0)
  line L9 (-88.9, 70) -> (0, 70)
  line L10 (0, 140) -> (-88.9, 0)
  line L11 (-88.9, 140) -> (0, 0)
  line L12 (-88.9, 9.3274) -> (-5.9229, 140)
  line L13 (-82.9771, 0) -> (0, 130.6726)
  line L14 (-82.9771, 140) -> (0, 9.3274)
  line L15 (-5.9229, 0) -> (-88.9, 130.6726)
  line L16 (-78.9, 140) -> (-78.9, 0)
  line L17 (-10, 140) -> (-10, 0)
  line L18 (-88.9, 3) -> (0, 3)
  line L19 (-88.9, 23) -> (0, 23) construction
  line L20 (-88.9, 25) -> (0, 25) construction
  circle A0 centre (-67.375, 32.5) radius 1.625
  circle A1 centre (-21.525, 32.5) radius 1.625
  circle A2 centre (-21.525, 125.425) radius 1.625
  circle A3 centre (-67.375, 125.425) radius 1.625
  line L21 (-88.9, 120) -> (0, 120)
  dimension "d24" = 88.9
  dimension "d25" = 140
  dimension "d26" = 10
  dimension "d27" = 10
  dimension "d28" = 10
  dimension "d29" = 10
  dimension "d30" = 10
  dimension "d31" = 10
  dimension "d32" = 20
  dimension "d33" = 25
  dimension "d34" = 3.25
  dimension "d35" = 7.5
  dimension "d36" = 3.25
  dimension "d37" = 7.5
  dimension "d40" = 45.85
  dimension "d41" = 45.85
  dimension "d42" = 3.25
  dimension "d43" = 92.925
  dimension "d44" = 45.85
  dimension "d45" = 3.25
  dimension "d46" = 92.925
  dimension "d47" = 45.85
  dimension "d48" = 20
extrude "Extrude4" add sketch "Sketch2" against normal blind 3 contours L2 L7 L9 L12 L16 | L2 L12 L16 | L2 L10 L13 L15 A0 | L2 L10 L12 L15 L16 A0 | L7 L9 L15 L16 L21 | L8 L10 L15 | L8 L11 L13 | L2 L11 L13 L15 A1 | L7 L15 L21 | L9 L11 L12 | L11 L12 L15 L16 L21 | L9 L10 L15 | L8 L11 L12 | L9 L10 L14 | L8 L10 L14 | L9 L11 L13 | L2 L11 L13 L14 L17 A1 | L7 L11 L15 L16 L21 | L15 L16 L21 | L11 L12 L14 L21 | L10 L12 L14 L21 | L10 L13 L14 L17 L21 | L6 L11 L14 L16 | L11 L14 L16 L21 | L2 L14 L17 | L6 L8 L14 L16 L21 | L6 L8 L12 L17 L21 | L10 L12 L17 L21 | L5 L9 L13 L17 L21 | L2 L5 L9 L14 L17 | L13 L17 L21 | L6 L14 L16 | L6 L12 L17 | L6 L10 L12 L17 | L5 L10 L13 L17 L21 | L5 L13 L21 bodies 1
extrude "Extrude5" add sketch "Sketch2" against normal blind 3 contours L10 L17 L21 bodies 1
extrude "Extrude6" add sketch "Sketch2" against normal blind 3 contours L11 L16 L21 bodies 1
